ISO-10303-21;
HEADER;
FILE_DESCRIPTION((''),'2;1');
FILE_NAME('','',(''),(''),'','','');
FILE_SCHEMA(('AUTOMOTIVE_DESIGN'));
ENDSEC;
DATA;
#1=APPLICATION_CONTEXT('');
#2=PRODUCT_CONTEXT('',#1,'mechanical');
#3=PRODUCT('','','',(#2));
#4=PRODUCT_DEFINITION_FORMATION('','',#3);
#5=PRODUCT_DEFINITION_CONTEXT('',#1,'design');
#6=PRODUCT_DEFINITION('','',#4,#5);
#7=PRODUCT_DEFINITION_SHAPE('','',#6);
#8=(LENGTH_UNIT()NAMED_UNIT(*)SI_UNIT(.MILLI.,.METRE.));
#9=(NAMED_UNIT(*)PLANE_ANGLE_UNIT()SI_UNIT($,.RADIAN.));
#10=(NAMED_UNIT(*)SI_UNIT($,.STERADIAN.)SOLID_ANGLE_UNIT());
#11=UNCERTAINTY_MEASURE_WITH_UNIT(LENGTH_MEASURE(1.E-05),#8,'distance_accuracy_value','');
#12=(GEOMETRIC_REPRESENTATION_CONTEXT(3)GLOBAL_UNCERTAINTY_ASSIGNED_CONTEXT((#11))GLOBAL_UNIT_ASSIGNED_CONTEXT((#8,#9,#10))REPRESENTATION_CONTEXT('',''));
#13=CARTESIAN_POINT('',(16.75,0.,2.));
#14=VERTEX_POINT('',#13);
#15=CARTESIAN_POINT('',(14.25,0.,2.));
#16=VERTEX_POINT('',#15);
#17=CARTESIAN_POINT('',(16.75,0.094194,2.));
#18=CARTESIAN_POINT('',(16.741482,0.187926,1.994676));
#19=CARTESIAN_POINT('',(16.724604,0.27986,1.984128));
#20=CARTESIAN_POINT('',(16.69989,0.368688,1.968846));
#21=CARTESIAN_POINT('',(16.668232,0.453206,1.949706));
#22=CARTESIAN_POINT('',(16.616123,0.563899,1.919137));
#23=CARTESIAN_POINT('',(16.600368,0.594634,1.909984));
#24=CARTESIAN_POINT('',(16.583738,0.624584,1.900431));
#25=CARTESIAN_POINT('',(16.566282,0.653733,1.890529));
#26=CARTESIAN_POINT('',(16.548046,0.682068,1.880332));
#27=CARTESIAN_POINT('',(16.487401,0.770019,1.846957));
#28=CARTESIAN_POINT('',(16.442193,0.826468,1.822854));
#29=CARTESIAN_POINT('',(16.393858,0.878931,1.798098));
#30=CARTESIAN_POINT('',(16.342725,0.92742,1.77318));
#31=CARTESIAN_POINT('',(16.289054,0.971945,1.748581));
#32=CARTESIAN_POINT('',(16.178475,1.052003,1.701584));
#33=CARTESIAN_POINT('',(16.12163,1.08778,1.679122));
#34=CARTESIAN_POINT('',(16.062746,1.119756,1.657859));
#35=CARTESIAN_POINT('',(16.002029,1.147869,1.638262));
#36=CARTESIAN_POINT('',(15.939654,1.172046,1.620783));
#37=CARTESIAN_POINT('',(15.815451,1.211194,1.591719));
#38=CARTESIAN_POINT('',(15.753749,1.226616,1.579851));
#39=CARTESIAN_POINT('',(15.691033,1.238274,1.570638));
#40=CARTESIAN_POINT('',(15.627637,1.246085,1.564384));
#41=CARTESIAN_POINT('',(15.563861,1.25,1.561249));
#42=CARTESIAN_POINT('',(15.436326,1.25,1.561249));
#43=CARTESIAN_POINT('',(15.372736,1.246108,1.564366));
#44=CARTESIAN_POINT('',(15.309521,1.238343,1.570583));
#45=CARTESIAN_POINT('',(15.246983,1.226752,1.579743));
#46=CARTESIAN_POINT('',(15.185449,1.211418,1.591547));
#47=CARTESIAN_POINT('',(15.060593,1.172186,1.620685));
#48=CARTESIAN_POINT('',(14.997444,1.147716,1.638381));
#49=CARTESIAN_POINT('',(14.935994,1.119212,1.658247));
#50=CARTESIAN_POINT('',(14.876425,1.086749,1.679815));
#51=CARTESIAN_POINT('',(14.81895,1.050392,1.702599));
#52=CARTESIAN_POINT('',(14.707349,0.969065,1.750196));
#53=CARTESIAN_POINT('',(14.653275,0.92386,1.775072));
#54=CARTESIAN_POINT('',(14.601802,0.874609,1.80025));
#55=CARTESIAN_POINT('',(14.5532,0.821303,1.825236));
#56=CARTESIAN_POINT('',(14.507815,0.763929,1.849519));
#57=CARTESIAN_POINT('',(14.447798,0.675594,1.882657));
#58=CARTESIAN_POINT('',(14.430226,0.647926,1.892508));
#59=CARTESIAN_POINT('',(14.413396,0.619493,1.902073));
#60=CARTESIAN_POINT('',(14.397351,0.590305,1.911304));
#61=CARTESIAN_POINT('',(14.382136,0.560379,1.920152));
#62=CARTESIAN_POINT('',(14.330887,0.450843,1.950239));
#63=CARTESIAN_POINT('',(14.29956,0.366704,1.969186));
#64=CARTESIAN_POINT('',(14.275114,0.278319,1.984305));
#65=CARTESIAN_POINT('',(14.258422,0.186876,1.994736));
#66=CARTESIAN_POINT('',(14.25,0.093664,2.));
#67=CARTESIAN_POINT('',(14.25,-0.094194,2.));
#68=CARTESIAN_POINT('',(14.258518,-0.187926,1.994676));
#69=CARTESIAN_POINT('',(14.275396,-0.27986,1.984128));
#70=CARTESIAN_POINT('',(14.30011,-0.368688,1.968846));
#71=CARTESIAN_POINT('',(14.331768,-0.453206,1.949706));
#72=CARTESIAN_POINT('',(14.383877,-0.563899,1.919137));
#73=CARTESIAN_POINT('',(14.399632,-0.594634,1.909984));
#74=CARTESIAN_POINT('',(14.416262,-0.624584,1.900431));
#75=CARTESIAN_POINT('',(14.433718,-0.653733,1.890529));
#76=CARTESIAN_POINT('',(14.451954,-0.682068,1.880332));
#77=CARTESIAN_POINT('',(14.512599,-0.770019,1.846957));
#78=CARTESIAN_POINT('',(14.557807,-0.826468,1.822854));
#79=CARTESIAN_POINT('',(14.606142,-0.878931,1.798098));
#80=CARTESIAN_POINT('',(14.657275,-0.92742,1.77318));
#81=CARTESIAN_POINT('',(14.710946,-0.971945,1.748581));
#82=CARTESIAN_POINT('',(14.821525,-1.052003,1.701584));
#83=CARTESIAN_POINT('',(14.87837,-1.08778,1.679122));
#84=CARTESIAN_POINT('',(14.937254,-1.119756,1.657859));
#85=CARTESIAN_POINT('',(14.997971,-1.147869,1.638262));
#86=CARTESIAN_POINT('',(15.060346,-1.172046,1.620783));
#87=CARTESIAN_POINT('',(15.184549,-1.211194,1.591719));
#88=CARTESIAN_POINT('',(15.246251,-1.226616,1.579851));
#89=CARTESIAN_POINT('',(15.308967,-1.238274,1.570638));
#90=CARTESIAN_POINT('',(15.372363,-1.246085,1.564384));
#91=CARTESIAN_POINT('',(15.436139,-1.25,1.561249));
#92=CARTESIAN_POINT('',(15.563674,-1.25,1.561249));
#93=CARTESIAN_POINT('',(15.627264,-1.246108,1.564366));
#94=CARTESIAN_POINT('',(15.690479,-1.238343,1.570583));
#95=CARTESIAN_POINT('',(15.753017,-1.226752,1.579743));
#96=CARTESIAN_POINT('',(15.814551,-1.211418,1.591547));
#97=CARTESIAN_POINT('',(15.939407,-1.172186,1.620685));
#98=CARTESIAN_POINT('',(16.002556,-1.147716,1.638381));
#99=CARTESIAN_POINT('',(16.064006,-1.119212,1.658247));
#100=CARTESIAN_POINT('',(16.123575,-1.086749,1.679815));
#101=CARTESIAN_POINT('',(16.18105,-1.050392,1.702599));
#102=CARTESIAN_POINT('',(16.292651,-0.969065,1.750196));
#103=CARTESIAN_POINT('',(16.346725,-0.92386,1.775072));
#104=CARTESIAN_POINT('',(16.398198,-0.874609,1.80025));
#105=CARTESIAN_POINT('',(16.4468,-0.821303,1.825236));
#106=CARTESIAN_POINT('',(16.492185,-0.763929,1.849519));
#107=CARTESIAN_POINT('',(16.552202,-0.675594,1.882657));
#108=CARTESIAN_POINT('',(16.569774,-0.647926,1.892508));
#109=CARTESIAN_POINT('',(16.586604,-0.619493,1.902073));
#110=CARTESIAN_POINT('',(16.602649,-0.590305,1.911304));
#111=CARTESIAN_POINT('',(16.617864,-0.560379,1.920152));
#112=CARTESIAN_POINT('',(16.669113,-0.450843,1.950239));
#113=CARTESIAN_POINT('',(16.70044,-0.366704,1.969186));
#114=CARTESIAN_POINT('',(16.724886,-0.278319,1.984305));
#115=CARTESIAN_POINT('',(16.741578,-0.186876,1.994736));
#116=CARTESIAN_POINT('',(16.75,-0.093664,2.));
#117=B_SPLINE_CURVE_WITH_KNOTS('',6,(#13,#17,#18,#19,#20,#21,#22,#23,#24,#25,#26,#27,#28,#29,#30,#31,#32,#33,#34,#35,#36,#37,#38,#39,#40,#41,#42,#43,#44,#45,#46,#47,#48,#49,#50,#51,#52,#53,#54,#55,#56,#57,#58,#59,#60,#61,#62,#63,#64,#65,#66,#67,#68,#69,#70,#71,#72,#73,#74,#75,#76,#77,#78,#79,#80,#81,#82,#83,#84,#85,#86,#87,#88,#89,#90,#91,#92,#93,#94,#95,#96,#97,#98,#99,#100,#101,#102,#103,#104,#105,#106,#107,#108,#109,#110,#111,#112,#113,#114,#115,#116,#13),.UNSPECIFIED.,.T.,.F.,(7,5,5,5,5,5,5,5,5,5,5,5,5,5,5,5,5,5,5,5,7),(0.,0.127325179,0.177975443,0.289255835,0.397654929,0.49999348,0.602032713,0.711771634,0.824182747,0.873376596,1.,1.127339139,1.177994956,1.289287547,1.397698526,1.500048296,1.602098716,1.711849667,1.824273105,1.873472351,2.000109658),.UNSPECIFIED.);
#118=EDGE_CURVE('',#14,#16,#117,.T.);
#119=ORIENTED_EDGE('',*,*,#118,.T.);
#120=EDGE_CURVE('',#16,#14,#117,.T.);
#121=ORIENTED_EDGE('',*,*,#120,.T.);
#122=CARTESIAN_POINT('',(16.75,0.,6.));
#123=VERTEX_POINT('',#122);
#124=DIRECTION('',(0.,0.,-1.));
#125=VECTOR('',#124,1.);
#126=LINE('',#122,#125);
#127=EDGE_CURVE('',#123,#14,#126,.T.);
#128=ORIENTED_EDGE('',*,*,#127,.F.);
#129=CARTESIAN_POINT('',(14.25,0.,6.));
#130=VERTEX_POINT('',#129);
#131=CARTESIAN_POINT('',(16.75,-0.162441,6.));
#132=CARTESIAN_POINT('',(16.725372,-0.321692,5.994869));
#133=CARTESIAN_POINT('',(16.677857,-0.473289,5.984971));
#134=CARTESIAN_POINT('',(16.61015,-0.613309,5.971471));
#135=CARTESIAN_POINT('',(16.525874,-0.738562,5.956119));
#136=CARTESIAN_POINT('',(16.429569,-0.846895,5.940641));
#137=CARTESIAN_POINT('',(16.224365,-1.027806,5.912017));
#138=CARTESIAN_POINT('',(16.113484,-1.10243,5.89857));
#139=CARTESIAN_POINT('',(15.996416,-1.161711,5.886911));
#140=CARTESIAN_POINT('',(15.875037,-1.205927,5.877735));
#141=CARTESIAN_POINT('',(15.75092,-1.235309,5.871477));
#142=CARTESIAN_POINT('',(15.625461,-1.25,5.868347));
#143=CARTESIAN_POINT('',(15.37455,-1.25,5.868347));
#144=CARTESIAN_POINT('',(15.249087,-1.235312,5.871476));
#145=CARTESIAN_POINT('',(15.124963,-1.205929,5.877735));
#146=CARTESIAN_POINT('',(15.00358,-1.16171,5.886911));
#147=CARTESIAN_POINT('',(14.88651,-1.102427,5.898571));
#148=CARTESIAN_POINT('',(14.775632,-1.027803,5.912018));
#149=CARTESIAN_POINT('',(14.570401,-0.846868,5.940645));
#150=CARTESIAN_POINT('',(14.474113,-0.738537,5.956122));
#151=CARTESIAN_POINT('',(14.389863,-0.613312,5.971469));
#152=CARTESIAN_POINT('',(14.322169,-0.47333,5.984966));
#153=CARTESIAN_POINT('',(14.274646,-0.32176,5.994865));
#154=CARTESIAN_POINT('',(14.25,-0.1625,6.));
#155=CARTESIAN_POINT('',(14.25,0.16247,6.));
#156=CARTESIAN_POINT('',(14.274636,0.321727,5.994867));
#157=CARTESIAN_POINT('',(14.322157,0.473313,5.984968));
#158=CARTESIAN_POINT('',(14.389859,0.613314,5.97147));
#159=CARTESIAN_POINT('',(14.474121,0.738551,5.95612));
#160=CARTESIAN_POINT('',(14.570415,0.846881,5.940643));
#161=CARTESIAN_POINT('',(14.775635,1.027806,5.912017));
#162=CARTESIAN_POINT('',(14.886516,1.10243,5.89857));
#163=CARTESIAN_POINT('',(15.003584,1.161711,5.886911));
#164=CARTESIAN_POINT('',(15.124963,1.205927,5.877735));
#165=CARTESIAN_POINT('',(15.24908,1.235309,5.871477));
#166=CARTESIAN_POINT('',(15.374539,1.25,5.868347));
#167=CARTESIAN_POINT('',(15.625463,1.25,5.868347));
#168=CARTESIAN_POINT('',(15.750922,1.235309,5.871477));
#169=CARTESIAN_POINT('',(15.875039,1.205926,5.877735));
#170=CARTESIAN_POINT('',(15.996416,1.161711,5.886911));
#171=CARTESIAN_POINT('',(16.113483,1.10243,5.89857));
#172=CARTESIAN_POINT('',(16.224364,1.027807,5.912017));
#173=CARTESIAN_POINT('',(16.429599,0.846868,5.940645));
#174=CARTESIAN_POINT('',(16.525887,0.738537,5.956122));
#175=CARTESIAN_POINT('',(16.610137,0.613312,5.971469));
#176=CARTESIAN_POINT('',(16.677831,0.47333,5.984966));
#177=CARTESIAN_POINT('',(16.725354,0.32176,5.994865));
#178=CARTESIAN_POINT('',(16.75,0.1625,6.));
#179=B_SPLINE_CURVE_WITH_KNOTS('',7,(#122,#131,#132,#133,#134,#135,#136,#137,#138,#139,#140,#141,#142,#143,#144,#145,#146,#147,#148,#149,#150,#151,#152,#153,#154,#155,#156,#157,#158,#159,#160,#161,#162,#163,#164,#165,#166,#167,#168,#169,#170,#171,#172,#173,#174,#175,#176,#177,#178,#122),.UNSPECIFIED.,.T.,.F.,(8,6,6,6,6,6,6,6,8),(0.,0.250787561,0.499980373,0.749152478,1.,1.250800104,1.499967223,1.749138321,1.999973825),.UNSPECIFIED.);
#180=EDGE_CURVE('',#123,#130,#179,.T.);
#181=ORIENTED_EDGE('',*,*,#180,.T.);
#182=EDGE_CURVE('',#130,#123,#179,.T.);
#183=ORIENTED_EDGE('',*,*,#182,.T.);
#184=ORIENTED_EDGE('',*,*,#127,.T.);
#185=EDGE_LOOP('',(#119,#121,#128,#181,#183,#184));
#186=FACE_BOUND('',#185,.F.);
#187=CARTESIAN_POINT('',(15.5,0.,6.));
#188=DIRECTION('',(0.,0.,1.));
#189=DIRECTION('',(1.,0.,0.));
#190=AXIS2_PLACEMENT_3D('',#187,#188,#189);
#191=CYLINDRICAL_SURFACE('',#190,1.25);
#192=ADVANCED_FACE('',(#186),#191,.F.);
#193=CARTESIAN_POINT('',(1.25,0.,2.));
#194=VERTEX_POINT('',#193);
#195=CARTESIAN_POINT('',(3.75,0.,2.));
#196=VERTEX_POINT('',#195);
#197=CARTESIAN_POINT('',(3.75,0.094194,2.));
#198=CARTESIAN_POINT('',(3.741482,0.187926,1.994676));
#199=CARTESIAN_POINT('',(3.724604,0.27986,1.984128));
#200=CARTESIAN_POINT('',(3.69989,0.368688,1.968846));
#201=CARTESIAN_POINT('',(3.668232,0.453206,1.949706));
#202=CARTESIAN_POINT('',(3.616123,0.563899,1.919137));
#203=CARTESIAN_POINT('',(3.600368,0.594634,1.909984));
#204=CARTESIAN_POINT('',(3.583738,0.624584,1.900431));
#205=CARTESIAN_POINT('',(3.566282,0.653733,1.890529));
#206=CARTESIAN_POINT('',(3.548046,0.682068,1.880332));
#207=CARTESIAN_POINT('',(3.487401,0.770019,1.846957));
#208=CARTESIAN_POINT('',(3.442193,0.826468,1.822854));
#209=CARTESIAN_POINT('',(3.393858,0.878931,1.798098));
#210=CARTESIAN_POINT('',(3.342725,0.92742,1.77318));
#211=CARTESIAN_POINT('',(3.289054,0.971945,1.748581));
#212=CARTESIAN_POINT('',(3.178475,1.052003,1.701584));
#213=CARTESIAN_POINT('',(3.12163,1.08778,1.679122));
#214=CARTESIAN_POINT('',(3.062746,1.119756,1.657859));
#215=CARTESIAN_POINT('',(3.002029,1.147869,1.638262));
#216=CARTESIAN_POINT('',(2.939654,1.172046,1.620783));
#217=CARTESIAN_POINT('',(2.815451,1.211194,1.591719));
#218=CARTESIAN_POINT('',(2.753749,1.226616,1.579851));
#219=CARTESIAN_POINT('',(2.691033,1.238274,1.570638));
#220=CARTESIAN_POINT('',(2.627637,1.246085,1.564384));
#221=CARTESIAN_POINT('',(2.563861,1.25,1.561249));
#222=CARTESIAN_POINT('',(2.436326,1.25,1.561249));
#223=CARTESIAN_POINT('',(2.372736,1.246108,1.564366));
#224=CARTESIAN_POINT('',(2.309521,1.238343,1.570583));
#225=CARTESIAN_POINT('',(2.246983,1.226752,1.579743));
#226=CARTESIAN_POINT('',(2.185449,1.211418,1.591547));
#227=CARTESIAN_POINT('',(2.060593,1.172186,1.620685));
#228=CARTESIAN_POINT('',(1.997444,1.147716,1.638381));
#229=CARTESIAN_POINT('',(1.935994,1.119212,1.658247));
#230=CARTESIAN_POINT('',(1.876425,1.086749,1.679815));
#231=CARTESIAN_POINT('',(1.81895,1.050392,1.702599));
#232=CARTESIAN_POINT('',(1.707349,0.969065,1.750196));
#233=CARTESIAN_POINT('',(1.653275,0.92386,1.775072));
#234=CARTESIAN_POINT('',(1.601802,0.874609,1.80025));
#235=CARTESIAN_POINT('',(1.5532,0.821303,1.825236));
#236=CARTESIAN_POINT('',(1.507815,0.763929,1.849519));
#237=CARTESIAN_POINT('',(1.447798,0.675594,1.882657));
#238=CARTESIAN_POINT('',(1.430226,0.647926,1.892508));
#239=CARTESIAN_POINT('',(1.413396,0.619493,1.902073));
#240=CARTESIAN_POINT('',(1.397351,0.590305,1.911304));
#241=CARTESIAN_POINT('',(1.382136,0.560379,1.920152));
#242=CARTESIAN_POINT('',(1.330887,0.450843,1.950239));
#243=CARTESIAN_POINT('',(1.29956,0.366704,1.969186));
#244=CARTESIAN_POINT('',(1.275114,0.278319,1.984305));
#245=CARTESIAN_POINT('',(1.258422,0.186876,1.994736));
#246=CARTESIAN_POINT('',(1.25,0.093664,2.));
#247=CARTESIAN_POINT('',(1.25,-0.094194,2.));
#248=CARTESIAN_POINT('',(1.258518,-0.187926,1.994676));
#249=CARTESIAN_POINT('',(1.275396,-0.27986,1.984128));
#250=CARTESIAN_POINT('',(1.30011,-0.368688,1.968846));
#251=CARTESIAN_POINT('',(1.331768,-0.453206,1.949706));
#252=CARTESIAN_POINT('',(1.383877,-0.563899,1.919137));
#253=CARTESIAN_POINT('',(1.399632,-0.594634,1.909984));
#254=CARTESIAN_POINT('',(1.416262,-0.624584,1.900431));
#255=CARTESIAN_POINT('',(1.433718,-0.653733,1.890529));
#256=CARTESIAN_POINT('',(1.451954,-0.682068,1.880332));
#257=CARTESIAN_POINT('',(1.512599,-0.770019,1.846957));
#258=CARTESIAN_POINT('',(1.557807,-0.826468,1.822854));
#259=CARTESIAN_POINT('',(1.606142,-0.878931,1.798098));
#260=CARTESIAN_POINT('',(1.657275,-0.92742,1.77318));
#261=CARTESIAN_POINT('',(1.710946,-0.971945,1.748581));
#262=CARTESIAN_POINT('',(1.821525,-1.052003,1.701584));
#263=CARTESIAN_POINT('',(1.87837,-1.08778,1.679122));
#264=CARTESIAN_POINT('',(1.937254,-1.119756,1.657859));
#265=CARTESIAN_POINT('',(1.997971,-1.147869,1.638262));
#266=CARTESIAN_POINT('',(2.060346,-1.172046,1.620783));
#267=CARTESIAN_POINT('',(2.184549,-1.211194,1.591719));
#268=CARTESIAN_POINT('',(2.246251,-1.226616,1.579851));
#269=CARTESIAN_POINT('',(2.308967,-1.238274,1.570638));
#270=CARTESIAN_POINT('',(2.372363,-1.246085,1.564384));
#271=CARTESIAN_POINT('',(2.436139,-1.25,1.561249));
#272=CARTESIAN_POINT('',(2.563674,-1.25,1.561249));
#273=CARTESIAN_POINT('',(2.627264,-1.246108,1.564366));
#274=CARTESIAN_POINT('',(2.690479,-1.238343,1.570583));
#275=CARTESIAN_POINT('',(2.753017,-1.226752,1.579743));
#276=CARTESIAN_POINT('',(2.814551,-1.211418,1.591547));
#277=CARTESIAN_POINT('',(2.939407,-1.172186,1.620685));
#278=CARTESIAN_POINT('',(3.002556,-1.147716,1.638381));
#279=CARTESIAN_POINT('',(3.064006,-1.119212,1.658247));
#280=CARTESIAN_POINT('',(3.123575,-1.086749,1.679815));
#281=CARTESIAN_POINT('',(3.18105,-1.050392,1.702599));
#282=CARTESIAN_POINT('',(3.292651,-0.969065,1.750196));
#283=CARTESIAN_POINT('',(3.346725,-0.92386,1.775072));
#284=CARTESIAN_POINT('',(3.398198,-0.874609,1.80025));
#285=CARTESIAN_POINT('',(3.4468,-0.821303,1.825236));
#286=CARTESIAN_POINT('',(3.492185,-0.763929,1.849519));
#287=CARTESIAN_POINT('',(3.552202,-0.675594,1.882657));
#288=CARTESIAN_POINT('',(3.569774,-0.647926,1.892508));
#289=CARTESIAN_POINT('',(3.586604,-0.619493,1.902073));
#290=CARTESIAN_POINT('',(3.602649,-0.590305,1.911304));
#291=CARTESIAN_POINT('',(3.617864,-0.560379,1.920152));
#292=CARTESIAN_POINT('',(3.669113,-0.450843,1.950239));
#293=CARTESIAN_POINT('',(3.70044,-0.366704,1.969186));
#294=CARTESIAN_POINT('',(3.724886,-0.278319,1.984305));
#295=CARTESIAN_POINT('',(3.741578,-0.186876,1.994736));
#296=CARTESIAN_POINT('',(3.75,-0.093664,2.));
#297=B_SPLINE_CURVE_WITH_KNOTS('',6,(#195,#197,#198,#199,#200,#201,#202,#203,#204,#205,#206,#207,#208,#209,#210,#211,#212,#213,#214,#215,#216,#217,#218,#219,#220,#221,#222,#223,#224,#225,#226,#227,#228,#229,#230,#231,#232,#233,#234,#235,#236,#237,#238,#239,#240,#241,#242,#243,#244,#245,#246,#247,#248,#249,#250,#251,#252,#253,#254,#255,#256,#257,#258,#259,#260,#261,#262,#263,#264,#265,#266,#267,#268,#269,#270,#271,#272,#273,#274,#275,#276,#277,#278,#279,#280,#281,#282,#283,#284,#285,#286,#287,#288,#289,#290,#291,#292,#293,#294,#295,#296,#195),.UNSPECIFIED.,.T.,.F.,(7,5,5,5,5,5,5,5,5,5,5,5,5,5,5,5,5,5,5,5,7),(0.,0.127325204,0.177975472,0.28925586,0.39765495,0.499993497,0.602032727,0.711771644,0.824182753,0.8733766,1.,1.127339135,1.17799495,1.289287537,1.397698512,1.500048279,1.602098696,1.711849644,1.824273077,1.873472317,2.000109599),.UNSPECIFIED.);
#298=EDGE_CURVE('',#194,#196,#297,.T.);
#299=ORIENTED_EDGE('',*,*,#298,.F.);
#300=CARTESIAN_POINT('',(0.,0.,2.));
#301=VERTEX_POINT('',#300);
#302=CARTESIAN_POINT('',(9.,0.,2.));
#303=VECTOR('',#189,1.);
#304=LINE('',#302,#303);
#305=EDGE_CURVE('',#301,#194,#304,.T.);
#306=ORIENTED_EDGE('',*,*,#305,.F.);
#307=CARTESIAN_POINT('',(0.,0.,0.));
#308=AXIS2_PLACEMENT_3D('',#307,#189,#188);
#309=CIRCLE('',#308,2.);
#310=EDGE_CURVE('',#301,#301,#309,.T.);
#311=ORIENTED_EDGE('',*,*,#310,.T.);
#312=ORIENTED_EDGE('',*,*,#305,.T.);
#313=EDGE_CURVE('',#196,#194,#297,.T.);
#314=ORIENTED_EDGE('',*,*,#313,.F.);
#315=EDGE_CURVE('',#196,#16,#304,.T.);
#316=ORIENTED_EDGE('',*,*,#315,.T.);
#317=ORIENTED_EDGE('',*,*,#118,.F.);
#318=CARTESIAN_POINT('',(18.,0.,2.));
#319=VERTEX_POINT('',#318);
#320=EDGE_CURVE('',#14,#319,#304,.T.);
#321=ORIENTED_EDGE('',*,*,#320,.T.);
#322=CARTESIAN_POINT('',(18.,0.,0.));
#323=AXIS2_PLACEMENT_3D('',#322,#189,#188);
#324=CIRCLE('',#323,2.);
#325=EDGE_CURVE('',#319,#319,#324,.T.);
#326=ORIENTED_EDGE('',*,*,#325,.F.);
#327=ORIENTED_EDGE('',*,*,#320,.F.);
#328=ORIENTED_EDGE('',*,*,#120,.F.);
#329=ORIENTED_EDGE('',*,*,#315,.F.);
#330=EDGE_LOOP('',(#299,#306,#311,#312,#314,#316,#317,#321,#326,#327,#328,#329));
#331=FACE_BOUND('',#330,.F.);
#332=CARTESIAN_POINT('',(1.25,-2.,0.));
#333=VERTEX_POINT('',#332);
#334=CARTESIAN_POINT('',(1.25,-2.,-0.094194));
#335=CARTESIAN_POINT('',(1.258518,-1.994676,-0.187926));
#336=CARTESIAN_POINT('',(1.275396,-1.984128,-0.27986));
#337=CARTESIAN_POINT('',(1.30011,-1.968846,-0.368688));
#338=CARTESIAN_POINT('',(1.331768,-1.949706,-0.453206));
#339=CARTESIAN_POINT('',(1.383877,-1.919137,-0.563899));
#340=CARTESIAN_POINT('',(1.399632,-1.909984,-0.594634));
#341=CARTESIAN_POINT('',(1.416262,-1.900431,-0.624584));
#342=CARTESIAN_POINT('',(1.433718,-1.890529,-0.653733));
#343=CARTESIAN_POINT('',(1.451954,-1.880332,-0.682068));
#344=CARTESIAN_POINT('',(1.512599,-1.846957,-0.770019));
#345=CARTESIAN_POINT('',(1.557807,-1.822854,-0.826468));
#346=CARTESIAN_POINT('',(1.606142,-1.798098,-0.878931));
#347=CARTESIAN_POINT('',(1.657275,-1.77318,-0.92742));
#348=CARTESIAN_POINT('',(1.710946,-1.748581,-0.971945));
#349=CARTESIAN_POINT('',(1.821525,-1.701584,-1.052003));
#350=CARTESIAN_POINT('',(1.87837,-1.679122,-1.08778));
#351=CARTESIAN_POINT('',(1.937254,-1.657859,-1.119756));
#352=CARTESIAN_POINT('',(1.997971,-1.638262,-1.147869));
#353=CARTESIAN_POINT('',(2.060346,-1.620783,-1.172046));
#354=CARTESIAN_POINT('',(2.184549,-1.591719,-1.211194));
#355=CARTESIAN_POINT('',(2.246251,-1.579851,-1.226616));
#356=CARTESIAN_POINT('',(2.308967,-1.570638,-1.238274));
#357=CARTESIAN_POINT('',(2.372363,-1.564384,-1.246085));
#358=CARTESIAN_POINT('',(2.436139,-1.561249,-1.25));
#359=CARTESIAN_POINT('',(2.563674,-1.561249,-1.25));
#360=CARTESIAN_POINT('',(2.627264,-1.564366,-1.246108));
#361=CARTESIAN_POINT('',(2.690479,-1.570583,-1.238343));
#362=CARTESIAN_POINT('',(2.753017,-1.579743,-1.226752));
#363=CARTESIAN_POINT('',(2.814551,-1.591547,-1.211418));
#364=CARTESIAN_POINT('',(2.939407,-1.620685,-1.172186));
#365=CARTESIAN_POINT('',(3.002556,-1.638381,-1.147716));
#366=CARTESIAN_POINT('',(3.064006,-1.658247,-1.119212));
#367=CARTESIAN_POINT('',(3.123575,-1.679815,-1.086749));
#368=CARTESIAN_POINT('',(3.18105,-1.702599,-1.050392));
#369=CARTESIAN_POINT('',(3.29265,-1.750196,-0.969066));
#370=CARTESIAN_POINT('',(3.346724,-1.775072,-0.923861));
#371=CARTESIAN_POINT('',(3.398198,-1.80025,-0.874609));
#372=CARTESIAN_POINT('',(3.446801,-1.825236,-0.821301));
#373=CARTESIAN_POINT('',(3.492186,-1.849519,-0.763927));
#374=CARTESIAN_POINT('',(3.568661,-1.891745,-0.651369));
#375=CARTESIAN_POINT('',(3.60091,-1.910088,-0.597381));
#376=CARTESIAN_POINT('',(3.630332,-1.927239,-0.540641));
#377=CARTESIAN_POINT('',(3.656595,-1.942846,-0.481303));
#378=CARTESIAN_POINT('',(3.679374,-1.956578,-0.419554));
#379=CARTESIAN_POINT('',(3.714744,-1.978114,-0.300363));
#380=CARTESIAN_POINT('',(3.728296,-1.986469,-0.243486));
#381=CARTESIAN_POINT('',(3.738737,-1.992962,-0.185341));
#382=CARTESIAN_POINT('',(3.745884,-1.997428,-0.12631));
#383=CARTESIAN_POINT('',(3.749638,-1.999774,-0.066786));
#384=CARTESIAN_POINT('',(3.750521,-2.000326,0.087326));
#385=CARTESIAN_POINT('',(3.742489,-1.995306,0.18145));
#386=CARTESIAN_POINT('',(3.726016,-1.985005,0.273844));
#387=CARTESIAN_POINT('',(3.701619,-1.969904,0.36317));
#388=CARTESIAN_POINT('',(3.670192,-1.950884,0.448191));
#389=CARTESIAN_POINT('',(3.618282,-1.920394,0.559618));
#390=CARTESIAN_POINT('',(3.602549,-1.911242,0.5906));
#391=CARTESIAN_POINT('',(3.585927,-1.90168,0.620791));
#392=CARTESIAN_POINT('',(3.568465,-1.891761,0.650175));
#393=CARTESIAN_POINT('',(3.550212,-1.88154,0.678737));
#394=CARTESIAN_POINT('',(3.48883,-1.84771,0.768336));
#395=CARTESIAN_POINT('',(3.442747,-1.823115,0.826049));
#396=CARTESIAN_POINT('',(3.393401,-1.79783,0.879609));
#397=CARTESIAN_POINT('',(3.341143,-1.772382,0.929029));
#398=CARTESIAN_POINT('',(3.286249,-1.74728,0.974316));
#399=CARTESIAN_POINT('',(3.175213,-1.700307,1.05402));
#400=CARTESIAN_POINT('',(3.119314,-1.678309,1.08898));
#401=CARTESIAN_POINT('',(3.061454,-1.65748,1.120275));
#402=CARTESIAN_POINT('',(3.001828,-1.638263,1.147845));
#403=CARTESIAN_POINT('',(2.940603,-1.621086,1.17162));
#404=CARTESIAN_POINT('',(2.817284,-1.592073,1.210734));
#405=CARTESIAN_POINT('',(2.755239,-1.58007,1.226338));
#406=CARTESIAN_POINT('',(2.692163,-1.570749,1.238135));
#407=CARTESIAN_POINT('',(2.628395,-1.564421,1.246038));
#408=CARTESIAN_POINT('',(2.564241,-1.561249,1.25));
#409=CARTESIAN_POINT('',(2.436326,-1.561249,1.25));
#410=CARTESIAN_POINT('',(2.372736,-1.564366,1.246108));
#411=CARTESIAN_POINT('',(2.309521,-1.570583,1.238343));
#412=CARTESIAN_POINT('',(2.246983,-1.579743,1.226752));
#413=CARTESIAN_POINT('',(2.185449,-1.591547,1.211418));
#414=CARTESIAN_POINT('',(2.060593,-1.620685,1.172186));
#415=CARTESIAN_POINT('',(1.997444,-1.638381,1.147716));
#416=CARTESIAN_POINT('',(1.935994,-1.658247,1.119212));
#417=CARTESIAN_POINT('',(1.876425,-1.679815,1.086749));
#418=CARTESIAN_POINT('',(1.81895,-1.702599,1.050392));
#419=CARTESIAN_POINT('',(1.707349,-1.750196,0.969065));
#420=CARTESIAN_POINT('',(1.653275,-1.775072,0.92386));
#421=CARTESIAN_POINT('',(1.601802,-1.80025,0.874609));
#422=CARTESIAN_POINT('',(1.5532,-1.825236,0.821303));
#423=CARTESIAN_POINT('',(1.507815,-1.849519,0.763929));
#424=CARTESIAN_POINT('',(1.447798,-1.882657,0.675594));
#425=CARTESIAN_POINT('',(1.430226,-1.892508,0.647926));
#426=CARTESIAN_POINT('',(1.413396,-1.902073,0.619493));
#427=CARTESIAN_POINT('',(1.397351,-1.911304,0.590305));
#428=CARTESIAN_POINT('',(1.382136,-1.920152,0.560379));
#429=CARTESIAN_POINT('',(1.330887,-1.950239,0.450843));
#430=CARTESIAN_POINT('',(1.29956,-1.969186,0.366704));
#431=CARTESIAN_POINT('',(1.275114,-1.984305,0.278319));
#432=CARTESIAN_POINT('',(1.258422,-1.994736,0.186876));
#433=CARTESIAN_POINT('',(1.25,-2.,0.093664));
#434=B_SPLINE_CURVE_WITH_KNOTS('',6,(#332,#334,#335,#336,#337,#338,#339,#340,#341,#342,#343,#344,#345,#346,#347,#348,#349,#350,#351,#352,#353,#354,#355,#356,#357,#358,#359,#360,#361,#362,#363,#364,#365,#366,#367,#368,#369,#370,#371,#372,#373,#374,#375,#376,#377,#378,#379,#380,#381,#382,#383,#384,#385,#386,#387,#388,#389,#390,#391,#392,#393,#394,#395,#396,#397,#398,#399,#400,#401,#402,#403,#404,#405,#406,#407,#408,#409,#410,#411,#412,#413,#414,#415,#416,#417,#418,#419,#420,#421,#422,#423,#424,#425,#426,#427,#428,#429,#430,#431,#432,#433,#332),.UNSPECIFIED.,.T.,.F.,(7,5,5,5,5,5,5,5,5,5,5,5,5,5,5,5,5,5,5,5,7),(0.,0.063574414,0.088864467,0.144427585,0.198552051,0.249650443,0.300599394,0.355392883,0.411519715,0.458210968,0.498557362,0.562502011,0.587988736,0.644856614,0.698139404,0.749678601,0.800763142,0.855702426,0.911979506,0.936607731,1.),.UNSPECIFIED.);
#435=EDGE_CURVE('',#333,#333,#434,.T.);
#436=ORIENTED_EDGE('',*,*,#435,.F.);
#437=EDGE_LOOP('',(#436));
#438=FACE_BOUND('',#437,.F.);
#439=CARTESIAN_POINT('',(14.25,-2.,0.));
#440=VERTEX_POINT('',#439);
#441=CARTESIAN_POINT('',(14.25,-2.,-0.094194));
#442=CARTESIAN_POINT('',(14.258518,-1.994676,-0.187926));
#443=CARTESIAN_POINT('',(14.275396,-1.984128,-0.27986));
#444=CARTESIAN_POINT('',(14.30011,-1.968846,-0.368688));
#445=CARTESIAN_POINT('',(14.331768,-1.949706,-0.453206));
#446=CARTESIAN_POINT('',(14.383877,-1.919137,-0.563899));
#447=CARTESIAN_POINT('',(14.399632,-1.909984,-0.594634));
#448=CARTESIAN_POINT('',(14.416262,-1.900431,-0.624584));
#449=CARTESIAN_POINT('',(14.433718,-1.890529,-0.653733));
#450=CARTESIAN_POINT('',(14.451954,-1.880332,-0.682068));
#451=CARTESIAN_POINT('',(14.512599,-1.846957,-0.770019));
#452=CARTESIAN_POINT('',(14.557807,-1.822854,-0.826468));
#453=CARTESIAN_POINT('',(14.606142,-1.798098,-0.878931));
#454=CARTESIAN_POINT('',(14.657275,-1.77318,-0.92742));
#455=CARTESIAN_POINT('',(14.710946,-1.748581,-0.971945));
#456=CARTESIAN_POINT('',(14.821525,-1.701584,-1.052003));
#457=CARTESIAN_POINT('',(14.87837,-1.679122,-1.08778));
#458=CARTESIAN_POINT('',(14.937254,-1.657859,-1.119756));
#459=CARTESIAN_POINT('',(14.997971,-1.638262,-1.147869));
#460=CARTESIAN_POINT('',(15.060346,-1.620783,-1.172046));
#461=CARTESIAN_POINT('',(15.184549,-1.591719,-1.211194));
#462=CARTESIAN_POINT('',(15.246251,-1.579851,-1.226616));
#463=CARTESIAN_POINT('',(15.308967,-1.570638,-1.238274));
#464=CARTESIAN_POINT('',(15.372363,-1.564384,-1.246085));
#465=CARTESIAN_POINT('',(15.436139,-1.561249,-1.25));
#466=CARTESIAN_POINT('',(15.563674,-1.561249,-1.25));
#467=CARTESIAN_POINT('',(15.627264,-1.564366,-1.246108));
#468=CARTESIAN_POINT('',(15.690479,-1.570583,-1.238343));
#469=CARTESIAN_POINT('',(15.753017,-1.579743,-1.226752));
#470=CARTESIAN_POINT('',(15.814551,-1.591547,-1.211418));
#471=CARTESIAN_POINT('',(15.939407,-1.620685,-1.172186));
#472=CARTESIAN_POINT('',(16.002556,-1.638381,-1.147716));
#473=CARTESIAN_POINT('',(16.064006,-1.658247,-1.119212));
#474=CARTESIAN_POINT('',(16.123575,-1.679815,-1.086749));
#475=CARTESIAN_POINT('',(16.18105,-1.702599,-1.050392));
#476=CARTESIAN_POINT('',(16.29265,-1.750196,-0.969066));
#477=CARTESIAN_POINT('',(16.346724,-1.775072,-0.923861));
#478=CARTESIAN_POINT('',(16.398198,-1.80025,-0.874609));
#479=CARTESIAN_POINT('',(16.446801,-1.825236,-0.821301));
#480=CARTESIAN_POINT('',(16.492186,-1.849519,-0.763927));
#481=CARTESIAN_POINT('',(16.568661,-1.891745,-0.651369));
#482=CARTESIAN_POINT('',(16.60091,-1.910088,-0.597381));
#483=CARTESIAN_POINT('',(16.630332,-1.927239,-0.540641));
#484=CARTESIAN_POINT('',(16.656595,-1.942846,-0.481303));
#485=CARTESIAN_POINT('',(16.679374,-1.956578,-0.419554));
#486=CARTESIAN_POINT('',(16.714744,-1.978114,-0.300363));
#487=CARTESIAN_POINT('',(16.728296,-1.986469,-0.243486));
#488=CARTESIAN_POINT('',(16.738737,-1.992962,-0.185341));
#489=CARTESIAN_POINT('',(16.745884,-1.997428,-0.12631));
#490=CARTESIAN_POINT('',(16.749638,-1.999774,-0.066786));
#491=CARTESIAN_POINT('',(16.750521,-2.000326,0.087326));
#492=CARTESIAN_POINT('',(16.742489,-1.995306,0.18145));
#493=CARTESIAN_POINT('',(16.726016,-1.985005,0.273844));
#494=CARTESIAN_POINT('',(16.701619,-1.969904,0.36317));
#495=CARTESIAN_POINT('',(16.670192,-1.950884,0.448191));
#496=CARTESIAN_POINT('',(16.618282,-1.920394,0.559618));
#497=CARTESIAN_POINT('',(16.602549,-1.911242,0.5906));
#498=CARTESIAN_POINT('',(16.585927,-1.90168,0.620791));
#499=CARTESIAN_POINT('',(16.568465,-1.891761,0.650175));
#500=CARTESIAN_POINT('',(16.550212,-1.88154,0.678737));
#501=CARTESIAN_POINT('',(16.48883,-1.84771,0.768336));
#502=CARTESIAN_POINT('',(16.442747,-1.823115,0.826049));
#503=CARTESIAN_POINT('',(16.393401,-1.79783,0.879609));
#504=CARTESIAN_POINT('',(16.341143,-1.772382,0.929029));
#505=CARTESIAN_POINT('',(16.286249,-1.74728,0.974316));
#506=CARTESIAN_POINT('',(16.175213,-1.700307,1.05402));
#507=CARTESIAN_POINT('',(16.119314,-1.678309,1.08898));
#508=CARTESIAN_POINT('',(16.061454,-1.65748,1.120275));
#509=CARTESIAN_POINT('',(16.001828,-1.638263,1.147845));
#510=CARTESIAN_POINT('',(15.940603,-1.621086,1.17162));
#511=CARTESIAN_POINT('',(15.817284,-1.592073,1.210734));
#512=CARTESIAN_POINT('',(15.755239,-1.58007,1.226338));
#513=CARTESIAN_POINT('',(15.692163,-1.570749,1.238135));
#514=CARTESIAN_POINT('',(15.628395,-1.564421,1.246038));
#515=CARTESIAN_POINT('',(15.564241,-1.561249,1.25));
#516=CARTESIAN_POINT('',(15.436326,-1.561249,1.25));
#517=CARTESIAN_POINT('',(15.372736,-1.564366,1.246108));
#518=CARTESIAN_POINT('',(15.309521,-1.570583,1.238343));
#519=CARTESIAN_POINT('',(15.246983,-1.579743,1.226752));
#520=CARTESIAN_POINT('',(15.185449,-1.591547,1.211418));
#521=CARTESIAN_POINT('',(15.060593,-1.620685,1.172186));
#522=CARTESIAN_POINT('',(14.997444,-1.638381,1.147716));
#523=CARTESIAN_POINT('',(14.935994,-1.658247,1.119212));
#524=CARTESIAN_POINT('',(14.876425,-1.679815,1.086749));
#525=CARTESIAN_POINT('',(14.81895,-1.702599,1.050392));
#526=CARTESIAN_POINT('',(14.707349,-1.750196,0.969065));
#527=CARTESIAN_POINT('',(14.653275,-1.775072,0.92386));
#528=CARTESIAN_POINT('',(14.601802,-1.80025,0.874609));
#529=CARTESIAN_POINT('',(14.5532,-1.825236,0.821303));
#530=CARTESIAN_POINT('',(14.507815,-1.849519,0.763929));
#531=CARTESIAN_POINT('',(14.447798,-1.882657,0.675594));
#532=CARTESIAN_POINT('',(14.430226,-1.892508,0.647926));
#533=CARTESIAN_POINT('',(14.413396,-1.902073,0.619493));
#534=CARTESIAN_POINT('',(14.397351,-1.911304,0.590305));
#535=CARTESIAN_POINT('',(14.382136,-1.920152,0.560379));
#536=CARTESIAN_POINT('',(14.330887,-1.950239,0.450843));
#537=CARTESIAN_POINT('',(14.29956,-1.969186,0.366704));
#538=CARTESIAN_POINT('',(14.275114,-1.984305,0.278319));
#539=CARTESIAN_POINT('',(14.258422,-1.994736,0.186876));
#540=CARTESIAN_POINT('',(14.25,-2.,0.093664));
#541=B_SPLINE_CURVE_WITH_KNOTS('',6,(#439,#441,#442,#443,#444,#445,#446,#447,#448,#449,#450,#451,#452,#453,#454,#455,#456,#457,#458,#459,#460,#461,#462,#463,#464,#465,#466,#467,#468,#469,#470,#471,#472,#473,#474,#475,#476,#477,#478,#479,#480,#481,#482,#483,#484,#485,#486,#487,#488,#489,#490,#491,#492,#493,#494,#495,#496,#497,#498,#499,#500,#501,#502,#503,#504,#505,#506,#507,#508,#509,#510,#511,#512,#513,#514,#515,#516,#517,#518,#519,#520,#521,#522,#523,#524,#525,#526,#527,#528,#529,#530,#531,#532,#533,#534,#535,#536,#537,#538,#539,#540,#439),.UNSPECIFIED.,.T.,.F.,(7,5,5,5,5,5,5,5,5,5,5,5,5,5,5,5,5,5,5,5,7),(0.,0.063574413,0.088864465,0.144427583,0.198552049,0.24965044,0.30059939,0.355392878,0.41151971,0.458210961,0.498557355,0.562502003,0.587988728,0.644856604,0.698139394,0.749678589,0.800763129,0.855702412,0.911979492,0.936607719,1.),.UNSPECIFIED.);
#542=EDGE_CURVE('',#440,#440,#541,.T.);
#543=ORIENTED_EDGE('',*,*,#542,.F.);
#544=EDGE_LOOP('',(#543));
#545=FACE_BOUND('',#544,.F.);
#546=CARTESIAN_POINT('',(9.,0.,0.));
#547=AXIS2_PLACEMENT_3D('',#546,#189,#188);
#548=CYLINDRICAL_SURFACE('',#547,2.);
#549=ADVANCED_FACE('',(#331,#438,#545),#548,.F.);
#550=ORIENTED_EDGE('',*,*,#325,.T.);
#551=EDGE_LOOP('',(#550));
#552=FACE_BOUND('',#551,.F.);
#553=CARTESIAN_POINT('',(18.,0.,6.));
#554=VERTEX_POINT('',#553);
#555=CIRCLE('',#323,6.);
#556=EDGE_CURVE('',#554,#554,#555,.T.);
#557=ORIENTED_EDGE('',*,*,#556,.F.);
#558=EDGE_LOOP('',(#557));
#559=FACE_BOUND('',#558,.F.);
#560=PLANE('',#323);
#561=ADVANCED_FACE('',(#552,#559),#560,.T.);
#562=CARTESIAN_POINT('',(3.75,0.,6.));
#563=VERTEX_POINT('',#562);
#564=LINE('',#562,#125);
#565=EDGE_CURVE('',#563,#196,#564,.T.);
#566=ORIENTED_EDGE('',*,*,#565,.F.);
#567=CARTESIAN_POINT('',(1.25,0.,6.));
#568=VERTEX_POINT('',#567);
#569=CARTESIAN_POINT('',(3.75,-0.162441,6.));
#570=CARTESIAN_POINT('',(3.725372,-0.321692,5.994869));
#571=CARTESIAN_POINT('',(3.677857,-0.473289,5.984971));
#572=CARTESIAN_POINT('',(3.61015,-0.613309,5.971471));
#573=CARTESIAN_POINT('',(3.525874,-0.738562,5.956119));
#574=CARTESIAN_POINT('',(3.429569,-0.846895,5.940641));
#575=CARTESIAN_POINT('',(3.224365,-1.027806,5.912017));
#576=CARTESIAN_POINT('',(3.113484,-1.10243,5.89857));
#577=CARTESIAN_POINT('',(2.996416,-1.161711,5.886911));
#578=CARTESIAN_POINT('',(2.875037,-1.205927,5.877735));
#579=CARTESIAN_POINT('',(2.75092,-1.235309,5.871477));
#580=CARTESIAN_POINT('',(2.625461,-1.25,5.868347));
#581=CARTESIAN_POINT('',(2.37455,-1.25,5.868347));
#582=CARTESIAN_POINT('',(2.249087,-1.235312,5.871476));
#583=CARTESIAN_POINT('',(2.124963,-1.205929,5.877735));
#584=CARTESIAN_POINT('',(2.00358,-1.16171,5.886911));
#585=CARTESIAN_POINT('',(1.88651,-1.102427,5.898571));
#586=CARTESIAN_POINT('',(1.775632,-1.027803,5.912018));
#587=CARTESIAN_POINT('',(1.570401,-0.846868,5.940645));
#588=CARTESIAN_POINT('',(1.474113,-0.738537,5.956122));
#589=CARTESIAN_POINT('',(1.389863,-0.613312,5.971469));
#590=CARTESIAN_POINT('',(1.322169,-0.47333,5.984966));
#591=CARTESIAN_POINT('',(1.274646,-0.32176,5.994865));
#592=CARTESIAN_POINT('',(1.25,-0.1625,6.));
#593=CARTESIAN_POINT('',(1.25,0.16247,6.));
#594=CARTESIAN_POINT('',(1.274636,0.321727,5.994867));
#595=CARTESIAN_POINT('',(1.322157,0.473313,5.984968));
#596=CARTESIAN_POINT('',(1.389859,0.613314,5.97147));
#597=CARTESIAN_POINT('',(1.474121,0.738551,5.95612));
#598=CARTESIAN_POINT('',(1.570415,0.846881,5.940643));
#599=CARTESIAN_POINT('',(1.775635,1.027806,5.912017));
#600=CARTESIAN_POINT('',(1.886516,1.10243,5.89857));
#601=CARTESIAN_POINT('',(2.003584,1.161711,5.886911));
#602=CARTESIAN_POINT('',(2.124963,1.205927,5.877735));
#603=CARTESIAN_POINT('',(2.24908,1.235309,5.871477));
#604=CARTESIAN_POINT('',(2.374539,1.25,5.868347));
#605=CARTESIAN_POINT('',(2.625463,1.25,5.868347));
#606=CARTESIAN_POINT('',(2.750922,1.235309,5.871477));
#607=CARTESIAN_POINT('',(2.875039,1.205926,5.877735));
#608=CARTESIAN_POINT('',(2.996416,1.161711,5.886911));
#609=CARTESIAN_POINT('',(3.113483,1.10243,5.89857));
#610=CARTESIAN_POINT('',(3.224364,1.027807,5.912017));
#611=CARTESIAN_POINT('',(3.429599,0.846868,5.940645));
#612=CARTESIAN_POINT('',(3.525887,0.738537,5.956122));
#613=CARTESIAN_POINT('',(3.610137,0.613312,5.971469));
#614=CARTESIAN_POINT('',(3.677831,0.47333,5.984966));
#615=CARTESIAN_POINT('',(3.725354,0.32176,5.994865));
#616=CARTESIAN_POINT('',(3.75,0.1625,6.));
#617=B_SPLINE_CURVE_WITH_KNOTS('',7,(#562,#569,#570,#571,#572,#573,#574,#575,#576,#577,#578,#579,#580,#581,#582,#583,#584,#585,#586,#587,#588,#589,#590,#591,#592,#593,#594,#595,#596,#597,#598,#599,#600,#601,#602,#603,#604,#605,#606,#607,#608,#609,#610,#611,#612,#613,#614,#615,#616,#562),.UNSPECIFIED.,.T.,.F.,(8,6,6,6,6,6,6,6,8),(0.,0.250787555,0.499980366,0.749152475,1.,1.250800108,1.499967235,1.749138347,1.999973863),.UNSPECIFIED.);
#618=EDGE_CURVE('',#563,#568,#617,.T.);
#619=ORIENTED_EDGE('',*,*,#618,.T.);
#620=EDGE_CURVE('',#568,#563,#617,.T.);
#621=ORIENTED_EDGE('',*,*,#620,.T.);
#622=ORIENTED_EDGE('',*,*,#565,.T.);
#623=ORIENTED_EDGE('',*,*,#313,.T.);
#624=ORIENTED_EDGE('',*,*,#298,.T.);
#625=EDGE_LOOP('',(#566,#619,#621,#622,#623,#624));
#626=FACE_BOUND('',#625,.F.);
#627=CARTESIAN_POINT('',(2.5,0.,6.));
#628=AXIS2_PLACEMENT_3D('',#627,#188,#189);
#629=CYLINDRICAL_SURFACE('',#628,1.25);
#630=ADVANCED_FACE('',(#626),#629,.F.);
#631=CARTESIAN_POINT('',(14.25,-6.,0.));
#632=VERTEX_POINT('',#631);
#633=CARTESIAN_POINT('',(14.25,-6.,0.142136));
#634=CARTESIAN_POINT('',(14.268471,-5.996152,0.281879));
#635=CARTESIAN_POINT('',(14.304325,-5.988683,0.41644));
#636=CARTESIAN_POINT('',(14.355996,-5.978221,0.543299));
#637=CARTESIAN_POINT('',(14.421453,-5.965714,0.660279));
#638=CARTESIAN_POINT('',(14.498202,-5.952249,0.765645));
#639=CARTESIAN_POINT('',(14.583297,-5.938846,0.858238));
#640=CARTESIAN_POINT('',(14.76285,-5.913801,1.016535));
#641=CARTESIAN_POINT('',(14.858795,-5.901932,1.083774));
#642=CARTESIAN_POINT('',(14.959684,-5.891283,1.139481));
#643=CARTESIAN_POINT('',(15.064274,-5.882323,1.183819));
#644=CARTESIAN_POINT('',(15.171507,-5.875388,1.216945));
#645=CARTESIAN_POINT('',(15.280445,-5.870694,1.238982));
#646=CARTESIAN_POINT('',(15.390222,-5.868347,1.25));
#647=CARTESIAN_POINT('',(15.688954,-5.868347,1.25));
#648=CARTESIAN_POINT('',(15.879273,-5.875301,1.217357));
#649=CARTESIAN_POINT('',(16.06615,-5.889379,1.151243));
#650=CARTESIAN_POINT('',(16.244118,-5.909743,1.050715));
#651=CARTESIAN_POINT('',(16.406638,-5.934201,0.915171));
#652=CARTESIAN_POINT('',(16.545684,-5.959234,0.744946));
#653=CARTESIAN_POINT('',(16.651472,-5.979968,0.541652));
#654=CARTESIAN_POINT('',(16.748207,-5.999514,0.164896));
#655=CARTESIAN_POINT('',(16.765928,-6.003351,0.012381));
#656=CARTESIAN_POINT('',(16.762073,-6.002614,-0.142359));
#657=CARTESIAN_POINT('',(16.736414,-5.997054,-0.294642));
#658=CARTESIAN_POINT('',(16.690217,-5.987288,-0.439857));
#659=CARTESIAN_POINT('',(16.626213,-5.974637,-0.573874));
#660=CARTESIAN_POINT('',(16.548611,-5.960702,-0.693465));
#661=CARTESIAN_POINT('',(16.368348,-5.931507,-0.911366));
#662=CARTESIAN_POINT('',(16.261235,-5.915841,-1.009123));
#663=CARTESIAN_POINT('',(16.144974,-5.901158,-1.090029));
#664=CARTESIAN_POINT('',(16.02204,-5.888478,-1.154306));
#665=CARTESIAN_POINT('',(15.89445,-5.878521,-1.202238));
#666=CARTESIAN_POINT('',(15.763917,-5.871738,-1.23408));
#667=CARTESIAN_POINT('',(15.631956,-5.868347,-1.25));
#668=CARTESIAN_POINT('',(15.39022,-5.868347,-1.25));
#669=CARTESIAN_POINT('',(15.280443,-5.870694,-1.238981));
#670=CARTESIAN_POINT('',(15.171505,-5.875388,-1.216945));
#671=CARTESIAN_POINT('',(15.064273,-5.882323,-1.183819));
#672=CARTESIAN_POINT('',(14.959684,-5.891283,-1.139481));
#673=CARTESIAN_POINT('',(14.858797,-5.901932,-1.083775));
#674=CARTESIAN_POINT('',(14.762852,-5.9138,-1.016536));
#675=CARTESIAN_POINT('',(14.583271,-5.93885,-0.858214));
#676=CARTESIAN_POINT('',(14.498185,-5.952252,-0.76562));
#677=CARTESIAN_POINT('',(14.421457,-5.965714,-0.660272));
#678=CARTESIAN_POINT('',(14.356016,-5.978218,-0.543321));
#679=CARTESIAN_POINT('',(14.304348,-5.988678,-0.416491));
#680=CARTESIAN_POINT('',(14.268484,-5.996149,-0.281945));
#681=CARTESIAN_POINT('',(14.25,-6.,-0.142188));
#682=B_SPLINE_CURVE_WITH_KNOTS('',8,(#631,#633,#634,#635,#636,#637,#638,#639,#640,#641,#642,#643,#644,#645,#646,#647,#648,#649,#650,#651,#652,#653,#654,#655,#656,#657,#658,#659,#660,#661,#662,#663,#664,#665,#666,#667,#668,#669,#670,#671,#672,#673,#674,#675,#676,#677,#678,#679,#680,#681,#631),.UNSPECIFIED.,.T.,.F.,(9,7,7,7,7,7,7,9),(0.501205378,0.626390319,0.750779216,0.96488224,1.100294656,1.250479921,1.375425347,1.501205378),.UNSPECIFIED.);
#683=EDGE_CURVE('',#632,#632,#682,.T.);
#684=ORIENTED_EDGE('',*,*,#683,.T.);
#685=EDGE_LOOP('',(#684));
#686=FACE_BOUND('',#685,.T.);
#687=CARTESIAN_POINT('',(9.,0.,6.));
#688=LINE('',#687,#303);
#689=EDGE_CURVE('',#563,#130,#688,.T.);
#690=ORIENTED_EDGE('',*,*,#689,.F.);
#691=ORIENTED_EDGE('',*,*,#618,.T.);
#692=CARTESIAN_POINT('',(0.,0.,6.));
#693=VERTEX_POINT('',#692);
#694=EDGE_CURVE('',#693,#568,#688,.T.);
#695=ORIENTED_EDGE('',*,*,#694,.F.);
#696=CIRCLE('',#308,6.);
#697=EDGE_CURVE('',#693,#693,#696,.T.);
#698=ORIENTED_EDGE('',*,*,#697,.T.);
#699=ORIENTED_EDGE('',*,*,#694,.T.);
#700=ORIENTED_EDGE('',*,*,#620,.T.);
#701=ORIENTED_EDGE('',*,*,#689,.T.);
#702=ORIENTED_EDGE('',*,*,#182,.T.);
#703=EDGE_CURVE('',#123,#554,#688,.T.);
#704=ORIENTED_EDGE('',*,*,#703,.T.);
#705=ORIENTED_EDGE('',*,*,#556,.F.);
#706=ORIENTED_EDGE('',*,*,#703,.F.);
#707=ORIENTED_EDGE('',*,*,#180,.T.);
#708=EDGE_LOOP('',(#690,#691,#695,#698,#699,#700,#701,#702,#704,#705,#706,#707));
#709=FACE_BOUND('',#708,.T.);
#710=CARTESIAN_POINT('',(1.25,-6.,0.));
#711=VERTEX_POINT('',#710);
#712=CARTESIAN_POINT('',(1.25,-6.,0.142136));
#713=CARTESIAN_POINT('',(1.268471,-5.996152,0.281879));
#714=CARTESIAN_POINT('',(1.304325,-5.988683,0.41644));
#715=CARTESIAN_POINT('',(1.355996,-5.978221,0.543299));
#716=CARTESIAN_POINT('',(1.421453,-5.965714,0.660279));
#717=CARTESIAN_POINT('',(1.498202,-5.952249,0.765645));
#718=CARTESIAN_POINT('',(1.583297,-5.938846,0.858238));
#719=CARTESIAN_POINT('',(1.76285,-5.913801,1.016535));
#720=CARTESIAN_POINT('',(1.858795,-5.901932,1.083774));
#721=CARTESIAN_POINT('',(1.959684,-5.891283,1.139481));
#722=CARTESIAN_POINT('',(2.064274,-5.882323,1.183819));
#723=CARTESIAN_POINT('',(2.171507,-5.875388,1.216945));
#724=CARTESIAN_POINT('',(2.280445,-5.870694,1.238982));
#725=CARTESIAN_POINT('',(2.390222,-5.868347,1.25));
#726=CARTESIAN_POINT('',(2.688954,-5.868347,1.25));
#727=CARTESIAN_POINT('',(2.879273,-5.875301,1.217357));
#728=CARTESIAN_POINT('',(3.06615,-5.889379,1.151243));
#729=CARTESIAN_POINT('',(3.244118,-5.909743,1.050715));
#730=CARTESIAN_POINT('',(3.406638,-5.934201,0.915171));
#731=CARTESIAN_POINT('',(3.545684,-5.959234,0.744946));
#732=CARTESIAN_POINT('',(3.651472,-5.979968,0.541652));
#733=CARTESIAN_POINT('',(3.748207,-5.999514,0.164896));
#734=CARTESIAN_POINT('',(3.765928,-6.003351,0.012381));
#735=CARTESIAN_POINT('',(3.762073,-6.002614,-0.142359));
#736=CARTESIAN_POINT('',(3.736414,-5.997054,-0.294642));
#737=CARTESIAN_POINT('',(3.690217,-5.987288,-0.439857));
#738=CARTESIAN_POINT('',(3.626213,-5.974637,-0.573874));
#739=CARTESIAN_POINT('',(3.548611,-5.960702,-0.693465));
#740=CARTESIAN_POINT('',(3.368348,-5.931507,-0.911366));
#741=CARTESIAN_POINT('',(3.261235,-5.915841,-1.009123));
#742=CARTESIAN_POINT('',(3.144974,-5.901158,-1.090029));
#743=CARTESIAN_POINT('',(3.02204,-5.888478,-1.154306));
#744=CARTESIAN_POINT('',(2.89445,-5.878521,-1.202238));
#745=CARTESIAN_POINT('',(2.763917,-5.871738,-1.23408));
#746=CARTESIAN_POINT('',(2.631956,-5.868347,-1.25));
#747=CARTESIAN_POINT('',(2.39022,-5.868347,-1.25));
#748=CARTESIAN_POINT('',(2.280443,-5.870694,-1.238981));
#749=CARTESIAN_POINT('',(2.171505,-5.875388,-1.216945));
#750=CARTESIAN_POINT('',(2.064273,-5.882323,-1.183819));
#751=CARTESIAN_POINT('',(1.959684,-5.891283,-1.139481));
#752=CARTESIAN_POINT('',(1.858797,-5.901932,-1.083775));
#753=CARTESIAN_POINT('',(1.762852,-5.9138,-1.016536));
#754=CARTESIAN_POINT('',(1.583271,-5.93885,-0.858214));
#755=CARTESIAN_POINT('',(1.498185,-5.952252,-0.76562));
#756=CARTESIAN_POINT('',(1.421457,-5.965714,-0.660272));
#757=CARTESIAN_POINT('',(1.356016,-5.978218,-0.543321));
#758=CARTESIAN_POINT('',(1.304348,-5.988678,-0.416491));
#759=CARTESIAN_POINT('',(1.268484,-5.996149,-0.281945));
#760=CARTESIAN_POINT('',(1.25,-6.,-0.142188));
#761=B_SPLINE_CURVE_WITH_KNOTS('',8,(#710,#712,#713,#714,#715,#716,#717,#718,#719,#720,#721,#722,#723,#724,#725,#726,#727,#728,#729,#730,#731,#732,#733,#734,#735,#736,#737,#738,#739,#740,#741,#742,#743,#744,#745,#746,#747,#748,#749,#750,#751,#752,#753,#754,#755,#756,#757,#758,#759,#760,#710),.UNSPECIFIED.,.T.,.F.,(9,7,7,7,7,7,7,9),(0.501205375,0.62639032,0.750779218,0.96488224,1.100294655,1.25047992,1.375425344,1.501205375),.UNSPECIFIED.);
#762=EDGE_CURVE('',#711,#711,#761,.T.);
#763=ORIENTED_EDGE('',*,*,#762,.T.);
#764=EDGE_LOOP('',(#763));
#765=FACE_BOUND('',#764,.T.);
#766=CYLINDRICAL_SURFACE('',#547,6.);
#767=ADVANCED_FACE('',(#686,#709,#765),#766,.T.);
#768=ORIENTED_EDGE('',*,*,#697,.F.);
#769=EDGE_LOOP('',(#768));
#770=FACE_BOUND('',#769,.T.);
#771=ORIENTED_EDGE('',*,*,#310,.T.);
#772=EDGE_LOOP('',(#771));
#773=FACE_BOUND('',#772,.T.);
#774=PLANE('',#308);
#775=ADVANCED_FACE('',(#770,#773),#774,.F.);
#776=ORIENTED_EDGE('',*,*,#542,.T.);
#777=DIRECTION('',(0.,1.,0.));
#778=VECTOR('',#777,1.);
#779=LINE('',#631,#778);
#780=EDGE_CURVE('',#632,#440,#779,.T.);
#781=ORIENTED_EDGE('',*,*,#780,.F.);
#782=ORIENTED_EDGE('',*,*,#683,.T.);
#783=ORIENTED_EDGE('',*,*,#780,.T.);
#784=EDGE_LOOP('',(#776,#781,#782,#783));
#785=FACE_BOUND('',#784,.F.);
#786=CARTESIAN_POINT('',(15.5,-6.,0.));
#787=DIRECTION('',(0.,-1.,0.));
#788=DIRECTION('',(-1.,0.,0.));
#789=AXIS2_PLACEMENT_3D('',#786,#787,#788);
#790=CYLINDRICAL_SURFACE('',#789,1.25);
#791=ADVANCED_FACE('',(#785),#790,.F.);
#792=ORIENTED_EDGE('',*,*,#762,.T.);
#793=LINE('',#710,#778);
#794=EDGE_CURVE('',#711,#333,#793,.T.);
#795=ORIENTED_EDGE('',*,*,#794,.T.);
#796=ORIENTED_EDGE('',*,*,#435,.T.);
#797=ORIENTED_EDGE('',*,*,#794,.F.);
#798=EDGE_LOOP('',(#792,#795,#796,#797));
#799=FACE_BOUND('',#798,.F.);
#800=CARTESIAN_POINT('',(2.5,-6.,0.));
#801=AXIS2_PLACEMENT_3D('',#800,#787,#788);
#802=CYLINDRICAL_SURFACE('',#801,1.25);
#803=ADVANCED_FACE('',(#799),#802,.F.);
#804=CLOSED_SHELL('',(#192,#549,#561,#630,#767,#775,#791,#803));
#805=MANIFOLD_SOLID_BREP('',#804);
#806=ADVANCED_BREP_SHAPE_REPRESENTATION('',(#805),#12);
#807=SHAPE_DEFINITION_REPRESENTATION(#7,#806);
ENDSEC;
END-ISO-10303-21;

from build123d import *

# Parameters (mm, degrees)
SKETCH2_W              = 18
SKETCH2_H              = 4
M3_TAPPED_HOLE1_REACH  = 24.45
M3_TAPPED_HOLE1_BORE_R = 1.25
M3_TAPPED_HOLE2_REACH  = 24.45
M3_TAPPED_HOLE2_BORE_R = 1.25


with BuildPart() as part:
    # Sketch2 → Revolve1 (revolve)
    with BuildSketch(Plane.XY, mode=Mode.PRIVATE) as revolve1_sk:
        with Locations((9, 4)):
            Rectangle(SKETCH2_W, SKETCH2_H)
    revolve(revolve1_sk.sketch.rotate(Axis((0, 0, 0), (1, 0, 0)), 90), axis=Axis((0, 0, 0), (1, 0, 0)))

    # M3 Tapped Hole1 bore → M3 Tapped Hole1 (cut, up to next)
    with BuildSketch(Plane(origin=(0, -6, 0), x_dir=(-1, 0, 0), z_dir=(0, -1, 0)), mode=Mode.PRIVATE) as m3_tapped_hole1_sk1:
        with Locations((-15.5, 0)):
            Circle(M3_TAPPED_HOLE1_BORE_R)
    m3_tapped_hole1_tool1 = extrude(m3_tapped_hole1_sk1.sketch, amount=-M3_TAPPED_HOLE1_REACH, mode=Mode.PRIVATE) & part.part
    # M3 Tapped Hole1 bore → M3 Tapped Hole1 (cut, up to next)
    with BuildSketch(Plane(origin=(0, -6, 0), x_dir=(-1, 0, 0), z_dir=(0, -1, 0)), mode=Mode.PRIVATE) as m3_tapped_hole1_sk2:
        with Locations((-2.5, 0)):
            Circle(M3_TAPPED_HOLE1_BORE_R)
    m3_tapped_hole1_tool2 = extrude(m3_tapped_hole1_sk2.sketch, amount=-M3_TAPPED_HOLE1_REACH, mode=Mode.PRIVATE) & part.part
    add(m3_tapped_hole1_tool1.solids().sort_by_distance((15.5, -6, 0))[0], mode=Mode.SUBTRACT)
    add(m3_tapped_hole1_tool2.solids().sort_by_distance((2.5, -6, 0))[0], mode=Mode.SUBTRACT)

    # M3 Tapped Hole2 bore → M3 Tapped Hole2 (cut, up to next)
    with BuildSketch(Plane.XY.offset(6), mode=Mode.PRIVATE) as m3_tapped_hole2_sk1:
        with Locations((2.5, 0)):
            Circle(M3_TAPPED_HOLE2_BORE_R)
    m3_tapped_hole2_tool1 = extrude(m3_tapped_hole2_sk1.sketch, amount=-M3_TAPPED_HOLE2_REACH, mode=Mode.PRIVATE) & part.part
    # M3 Tapped Hole2 bore → M3 Tapped Hole2 (cut, up to next)
    with BuildSketch(Plane.XY.offset(6), mode=Mode.PRIVATE) as m3_tapped_hole2_sk2:
        with Locations((15.5, 0)):
            Circle(M3_TAPPED_HOLE2_BORE_R)
    m3_tapped_hole2_tool2 = extrude(m3_tapped_hole2_sk2.sketch, amount=-M3_TAPPED_HOLE2_REACH, mode=Mode.PRIVATE) & part.part
    add(m3_tapped_hole2_tool1.solids().sort_by_distance((2.5, 0, 6))[0], mode=Mode.SUBTRACT)
    add(m3_tapped_hole2_tool2.solids().sort_by_distance((15.5, 0, 6))[0], mode=Mode.SUBTRACT)


solid = part.part
